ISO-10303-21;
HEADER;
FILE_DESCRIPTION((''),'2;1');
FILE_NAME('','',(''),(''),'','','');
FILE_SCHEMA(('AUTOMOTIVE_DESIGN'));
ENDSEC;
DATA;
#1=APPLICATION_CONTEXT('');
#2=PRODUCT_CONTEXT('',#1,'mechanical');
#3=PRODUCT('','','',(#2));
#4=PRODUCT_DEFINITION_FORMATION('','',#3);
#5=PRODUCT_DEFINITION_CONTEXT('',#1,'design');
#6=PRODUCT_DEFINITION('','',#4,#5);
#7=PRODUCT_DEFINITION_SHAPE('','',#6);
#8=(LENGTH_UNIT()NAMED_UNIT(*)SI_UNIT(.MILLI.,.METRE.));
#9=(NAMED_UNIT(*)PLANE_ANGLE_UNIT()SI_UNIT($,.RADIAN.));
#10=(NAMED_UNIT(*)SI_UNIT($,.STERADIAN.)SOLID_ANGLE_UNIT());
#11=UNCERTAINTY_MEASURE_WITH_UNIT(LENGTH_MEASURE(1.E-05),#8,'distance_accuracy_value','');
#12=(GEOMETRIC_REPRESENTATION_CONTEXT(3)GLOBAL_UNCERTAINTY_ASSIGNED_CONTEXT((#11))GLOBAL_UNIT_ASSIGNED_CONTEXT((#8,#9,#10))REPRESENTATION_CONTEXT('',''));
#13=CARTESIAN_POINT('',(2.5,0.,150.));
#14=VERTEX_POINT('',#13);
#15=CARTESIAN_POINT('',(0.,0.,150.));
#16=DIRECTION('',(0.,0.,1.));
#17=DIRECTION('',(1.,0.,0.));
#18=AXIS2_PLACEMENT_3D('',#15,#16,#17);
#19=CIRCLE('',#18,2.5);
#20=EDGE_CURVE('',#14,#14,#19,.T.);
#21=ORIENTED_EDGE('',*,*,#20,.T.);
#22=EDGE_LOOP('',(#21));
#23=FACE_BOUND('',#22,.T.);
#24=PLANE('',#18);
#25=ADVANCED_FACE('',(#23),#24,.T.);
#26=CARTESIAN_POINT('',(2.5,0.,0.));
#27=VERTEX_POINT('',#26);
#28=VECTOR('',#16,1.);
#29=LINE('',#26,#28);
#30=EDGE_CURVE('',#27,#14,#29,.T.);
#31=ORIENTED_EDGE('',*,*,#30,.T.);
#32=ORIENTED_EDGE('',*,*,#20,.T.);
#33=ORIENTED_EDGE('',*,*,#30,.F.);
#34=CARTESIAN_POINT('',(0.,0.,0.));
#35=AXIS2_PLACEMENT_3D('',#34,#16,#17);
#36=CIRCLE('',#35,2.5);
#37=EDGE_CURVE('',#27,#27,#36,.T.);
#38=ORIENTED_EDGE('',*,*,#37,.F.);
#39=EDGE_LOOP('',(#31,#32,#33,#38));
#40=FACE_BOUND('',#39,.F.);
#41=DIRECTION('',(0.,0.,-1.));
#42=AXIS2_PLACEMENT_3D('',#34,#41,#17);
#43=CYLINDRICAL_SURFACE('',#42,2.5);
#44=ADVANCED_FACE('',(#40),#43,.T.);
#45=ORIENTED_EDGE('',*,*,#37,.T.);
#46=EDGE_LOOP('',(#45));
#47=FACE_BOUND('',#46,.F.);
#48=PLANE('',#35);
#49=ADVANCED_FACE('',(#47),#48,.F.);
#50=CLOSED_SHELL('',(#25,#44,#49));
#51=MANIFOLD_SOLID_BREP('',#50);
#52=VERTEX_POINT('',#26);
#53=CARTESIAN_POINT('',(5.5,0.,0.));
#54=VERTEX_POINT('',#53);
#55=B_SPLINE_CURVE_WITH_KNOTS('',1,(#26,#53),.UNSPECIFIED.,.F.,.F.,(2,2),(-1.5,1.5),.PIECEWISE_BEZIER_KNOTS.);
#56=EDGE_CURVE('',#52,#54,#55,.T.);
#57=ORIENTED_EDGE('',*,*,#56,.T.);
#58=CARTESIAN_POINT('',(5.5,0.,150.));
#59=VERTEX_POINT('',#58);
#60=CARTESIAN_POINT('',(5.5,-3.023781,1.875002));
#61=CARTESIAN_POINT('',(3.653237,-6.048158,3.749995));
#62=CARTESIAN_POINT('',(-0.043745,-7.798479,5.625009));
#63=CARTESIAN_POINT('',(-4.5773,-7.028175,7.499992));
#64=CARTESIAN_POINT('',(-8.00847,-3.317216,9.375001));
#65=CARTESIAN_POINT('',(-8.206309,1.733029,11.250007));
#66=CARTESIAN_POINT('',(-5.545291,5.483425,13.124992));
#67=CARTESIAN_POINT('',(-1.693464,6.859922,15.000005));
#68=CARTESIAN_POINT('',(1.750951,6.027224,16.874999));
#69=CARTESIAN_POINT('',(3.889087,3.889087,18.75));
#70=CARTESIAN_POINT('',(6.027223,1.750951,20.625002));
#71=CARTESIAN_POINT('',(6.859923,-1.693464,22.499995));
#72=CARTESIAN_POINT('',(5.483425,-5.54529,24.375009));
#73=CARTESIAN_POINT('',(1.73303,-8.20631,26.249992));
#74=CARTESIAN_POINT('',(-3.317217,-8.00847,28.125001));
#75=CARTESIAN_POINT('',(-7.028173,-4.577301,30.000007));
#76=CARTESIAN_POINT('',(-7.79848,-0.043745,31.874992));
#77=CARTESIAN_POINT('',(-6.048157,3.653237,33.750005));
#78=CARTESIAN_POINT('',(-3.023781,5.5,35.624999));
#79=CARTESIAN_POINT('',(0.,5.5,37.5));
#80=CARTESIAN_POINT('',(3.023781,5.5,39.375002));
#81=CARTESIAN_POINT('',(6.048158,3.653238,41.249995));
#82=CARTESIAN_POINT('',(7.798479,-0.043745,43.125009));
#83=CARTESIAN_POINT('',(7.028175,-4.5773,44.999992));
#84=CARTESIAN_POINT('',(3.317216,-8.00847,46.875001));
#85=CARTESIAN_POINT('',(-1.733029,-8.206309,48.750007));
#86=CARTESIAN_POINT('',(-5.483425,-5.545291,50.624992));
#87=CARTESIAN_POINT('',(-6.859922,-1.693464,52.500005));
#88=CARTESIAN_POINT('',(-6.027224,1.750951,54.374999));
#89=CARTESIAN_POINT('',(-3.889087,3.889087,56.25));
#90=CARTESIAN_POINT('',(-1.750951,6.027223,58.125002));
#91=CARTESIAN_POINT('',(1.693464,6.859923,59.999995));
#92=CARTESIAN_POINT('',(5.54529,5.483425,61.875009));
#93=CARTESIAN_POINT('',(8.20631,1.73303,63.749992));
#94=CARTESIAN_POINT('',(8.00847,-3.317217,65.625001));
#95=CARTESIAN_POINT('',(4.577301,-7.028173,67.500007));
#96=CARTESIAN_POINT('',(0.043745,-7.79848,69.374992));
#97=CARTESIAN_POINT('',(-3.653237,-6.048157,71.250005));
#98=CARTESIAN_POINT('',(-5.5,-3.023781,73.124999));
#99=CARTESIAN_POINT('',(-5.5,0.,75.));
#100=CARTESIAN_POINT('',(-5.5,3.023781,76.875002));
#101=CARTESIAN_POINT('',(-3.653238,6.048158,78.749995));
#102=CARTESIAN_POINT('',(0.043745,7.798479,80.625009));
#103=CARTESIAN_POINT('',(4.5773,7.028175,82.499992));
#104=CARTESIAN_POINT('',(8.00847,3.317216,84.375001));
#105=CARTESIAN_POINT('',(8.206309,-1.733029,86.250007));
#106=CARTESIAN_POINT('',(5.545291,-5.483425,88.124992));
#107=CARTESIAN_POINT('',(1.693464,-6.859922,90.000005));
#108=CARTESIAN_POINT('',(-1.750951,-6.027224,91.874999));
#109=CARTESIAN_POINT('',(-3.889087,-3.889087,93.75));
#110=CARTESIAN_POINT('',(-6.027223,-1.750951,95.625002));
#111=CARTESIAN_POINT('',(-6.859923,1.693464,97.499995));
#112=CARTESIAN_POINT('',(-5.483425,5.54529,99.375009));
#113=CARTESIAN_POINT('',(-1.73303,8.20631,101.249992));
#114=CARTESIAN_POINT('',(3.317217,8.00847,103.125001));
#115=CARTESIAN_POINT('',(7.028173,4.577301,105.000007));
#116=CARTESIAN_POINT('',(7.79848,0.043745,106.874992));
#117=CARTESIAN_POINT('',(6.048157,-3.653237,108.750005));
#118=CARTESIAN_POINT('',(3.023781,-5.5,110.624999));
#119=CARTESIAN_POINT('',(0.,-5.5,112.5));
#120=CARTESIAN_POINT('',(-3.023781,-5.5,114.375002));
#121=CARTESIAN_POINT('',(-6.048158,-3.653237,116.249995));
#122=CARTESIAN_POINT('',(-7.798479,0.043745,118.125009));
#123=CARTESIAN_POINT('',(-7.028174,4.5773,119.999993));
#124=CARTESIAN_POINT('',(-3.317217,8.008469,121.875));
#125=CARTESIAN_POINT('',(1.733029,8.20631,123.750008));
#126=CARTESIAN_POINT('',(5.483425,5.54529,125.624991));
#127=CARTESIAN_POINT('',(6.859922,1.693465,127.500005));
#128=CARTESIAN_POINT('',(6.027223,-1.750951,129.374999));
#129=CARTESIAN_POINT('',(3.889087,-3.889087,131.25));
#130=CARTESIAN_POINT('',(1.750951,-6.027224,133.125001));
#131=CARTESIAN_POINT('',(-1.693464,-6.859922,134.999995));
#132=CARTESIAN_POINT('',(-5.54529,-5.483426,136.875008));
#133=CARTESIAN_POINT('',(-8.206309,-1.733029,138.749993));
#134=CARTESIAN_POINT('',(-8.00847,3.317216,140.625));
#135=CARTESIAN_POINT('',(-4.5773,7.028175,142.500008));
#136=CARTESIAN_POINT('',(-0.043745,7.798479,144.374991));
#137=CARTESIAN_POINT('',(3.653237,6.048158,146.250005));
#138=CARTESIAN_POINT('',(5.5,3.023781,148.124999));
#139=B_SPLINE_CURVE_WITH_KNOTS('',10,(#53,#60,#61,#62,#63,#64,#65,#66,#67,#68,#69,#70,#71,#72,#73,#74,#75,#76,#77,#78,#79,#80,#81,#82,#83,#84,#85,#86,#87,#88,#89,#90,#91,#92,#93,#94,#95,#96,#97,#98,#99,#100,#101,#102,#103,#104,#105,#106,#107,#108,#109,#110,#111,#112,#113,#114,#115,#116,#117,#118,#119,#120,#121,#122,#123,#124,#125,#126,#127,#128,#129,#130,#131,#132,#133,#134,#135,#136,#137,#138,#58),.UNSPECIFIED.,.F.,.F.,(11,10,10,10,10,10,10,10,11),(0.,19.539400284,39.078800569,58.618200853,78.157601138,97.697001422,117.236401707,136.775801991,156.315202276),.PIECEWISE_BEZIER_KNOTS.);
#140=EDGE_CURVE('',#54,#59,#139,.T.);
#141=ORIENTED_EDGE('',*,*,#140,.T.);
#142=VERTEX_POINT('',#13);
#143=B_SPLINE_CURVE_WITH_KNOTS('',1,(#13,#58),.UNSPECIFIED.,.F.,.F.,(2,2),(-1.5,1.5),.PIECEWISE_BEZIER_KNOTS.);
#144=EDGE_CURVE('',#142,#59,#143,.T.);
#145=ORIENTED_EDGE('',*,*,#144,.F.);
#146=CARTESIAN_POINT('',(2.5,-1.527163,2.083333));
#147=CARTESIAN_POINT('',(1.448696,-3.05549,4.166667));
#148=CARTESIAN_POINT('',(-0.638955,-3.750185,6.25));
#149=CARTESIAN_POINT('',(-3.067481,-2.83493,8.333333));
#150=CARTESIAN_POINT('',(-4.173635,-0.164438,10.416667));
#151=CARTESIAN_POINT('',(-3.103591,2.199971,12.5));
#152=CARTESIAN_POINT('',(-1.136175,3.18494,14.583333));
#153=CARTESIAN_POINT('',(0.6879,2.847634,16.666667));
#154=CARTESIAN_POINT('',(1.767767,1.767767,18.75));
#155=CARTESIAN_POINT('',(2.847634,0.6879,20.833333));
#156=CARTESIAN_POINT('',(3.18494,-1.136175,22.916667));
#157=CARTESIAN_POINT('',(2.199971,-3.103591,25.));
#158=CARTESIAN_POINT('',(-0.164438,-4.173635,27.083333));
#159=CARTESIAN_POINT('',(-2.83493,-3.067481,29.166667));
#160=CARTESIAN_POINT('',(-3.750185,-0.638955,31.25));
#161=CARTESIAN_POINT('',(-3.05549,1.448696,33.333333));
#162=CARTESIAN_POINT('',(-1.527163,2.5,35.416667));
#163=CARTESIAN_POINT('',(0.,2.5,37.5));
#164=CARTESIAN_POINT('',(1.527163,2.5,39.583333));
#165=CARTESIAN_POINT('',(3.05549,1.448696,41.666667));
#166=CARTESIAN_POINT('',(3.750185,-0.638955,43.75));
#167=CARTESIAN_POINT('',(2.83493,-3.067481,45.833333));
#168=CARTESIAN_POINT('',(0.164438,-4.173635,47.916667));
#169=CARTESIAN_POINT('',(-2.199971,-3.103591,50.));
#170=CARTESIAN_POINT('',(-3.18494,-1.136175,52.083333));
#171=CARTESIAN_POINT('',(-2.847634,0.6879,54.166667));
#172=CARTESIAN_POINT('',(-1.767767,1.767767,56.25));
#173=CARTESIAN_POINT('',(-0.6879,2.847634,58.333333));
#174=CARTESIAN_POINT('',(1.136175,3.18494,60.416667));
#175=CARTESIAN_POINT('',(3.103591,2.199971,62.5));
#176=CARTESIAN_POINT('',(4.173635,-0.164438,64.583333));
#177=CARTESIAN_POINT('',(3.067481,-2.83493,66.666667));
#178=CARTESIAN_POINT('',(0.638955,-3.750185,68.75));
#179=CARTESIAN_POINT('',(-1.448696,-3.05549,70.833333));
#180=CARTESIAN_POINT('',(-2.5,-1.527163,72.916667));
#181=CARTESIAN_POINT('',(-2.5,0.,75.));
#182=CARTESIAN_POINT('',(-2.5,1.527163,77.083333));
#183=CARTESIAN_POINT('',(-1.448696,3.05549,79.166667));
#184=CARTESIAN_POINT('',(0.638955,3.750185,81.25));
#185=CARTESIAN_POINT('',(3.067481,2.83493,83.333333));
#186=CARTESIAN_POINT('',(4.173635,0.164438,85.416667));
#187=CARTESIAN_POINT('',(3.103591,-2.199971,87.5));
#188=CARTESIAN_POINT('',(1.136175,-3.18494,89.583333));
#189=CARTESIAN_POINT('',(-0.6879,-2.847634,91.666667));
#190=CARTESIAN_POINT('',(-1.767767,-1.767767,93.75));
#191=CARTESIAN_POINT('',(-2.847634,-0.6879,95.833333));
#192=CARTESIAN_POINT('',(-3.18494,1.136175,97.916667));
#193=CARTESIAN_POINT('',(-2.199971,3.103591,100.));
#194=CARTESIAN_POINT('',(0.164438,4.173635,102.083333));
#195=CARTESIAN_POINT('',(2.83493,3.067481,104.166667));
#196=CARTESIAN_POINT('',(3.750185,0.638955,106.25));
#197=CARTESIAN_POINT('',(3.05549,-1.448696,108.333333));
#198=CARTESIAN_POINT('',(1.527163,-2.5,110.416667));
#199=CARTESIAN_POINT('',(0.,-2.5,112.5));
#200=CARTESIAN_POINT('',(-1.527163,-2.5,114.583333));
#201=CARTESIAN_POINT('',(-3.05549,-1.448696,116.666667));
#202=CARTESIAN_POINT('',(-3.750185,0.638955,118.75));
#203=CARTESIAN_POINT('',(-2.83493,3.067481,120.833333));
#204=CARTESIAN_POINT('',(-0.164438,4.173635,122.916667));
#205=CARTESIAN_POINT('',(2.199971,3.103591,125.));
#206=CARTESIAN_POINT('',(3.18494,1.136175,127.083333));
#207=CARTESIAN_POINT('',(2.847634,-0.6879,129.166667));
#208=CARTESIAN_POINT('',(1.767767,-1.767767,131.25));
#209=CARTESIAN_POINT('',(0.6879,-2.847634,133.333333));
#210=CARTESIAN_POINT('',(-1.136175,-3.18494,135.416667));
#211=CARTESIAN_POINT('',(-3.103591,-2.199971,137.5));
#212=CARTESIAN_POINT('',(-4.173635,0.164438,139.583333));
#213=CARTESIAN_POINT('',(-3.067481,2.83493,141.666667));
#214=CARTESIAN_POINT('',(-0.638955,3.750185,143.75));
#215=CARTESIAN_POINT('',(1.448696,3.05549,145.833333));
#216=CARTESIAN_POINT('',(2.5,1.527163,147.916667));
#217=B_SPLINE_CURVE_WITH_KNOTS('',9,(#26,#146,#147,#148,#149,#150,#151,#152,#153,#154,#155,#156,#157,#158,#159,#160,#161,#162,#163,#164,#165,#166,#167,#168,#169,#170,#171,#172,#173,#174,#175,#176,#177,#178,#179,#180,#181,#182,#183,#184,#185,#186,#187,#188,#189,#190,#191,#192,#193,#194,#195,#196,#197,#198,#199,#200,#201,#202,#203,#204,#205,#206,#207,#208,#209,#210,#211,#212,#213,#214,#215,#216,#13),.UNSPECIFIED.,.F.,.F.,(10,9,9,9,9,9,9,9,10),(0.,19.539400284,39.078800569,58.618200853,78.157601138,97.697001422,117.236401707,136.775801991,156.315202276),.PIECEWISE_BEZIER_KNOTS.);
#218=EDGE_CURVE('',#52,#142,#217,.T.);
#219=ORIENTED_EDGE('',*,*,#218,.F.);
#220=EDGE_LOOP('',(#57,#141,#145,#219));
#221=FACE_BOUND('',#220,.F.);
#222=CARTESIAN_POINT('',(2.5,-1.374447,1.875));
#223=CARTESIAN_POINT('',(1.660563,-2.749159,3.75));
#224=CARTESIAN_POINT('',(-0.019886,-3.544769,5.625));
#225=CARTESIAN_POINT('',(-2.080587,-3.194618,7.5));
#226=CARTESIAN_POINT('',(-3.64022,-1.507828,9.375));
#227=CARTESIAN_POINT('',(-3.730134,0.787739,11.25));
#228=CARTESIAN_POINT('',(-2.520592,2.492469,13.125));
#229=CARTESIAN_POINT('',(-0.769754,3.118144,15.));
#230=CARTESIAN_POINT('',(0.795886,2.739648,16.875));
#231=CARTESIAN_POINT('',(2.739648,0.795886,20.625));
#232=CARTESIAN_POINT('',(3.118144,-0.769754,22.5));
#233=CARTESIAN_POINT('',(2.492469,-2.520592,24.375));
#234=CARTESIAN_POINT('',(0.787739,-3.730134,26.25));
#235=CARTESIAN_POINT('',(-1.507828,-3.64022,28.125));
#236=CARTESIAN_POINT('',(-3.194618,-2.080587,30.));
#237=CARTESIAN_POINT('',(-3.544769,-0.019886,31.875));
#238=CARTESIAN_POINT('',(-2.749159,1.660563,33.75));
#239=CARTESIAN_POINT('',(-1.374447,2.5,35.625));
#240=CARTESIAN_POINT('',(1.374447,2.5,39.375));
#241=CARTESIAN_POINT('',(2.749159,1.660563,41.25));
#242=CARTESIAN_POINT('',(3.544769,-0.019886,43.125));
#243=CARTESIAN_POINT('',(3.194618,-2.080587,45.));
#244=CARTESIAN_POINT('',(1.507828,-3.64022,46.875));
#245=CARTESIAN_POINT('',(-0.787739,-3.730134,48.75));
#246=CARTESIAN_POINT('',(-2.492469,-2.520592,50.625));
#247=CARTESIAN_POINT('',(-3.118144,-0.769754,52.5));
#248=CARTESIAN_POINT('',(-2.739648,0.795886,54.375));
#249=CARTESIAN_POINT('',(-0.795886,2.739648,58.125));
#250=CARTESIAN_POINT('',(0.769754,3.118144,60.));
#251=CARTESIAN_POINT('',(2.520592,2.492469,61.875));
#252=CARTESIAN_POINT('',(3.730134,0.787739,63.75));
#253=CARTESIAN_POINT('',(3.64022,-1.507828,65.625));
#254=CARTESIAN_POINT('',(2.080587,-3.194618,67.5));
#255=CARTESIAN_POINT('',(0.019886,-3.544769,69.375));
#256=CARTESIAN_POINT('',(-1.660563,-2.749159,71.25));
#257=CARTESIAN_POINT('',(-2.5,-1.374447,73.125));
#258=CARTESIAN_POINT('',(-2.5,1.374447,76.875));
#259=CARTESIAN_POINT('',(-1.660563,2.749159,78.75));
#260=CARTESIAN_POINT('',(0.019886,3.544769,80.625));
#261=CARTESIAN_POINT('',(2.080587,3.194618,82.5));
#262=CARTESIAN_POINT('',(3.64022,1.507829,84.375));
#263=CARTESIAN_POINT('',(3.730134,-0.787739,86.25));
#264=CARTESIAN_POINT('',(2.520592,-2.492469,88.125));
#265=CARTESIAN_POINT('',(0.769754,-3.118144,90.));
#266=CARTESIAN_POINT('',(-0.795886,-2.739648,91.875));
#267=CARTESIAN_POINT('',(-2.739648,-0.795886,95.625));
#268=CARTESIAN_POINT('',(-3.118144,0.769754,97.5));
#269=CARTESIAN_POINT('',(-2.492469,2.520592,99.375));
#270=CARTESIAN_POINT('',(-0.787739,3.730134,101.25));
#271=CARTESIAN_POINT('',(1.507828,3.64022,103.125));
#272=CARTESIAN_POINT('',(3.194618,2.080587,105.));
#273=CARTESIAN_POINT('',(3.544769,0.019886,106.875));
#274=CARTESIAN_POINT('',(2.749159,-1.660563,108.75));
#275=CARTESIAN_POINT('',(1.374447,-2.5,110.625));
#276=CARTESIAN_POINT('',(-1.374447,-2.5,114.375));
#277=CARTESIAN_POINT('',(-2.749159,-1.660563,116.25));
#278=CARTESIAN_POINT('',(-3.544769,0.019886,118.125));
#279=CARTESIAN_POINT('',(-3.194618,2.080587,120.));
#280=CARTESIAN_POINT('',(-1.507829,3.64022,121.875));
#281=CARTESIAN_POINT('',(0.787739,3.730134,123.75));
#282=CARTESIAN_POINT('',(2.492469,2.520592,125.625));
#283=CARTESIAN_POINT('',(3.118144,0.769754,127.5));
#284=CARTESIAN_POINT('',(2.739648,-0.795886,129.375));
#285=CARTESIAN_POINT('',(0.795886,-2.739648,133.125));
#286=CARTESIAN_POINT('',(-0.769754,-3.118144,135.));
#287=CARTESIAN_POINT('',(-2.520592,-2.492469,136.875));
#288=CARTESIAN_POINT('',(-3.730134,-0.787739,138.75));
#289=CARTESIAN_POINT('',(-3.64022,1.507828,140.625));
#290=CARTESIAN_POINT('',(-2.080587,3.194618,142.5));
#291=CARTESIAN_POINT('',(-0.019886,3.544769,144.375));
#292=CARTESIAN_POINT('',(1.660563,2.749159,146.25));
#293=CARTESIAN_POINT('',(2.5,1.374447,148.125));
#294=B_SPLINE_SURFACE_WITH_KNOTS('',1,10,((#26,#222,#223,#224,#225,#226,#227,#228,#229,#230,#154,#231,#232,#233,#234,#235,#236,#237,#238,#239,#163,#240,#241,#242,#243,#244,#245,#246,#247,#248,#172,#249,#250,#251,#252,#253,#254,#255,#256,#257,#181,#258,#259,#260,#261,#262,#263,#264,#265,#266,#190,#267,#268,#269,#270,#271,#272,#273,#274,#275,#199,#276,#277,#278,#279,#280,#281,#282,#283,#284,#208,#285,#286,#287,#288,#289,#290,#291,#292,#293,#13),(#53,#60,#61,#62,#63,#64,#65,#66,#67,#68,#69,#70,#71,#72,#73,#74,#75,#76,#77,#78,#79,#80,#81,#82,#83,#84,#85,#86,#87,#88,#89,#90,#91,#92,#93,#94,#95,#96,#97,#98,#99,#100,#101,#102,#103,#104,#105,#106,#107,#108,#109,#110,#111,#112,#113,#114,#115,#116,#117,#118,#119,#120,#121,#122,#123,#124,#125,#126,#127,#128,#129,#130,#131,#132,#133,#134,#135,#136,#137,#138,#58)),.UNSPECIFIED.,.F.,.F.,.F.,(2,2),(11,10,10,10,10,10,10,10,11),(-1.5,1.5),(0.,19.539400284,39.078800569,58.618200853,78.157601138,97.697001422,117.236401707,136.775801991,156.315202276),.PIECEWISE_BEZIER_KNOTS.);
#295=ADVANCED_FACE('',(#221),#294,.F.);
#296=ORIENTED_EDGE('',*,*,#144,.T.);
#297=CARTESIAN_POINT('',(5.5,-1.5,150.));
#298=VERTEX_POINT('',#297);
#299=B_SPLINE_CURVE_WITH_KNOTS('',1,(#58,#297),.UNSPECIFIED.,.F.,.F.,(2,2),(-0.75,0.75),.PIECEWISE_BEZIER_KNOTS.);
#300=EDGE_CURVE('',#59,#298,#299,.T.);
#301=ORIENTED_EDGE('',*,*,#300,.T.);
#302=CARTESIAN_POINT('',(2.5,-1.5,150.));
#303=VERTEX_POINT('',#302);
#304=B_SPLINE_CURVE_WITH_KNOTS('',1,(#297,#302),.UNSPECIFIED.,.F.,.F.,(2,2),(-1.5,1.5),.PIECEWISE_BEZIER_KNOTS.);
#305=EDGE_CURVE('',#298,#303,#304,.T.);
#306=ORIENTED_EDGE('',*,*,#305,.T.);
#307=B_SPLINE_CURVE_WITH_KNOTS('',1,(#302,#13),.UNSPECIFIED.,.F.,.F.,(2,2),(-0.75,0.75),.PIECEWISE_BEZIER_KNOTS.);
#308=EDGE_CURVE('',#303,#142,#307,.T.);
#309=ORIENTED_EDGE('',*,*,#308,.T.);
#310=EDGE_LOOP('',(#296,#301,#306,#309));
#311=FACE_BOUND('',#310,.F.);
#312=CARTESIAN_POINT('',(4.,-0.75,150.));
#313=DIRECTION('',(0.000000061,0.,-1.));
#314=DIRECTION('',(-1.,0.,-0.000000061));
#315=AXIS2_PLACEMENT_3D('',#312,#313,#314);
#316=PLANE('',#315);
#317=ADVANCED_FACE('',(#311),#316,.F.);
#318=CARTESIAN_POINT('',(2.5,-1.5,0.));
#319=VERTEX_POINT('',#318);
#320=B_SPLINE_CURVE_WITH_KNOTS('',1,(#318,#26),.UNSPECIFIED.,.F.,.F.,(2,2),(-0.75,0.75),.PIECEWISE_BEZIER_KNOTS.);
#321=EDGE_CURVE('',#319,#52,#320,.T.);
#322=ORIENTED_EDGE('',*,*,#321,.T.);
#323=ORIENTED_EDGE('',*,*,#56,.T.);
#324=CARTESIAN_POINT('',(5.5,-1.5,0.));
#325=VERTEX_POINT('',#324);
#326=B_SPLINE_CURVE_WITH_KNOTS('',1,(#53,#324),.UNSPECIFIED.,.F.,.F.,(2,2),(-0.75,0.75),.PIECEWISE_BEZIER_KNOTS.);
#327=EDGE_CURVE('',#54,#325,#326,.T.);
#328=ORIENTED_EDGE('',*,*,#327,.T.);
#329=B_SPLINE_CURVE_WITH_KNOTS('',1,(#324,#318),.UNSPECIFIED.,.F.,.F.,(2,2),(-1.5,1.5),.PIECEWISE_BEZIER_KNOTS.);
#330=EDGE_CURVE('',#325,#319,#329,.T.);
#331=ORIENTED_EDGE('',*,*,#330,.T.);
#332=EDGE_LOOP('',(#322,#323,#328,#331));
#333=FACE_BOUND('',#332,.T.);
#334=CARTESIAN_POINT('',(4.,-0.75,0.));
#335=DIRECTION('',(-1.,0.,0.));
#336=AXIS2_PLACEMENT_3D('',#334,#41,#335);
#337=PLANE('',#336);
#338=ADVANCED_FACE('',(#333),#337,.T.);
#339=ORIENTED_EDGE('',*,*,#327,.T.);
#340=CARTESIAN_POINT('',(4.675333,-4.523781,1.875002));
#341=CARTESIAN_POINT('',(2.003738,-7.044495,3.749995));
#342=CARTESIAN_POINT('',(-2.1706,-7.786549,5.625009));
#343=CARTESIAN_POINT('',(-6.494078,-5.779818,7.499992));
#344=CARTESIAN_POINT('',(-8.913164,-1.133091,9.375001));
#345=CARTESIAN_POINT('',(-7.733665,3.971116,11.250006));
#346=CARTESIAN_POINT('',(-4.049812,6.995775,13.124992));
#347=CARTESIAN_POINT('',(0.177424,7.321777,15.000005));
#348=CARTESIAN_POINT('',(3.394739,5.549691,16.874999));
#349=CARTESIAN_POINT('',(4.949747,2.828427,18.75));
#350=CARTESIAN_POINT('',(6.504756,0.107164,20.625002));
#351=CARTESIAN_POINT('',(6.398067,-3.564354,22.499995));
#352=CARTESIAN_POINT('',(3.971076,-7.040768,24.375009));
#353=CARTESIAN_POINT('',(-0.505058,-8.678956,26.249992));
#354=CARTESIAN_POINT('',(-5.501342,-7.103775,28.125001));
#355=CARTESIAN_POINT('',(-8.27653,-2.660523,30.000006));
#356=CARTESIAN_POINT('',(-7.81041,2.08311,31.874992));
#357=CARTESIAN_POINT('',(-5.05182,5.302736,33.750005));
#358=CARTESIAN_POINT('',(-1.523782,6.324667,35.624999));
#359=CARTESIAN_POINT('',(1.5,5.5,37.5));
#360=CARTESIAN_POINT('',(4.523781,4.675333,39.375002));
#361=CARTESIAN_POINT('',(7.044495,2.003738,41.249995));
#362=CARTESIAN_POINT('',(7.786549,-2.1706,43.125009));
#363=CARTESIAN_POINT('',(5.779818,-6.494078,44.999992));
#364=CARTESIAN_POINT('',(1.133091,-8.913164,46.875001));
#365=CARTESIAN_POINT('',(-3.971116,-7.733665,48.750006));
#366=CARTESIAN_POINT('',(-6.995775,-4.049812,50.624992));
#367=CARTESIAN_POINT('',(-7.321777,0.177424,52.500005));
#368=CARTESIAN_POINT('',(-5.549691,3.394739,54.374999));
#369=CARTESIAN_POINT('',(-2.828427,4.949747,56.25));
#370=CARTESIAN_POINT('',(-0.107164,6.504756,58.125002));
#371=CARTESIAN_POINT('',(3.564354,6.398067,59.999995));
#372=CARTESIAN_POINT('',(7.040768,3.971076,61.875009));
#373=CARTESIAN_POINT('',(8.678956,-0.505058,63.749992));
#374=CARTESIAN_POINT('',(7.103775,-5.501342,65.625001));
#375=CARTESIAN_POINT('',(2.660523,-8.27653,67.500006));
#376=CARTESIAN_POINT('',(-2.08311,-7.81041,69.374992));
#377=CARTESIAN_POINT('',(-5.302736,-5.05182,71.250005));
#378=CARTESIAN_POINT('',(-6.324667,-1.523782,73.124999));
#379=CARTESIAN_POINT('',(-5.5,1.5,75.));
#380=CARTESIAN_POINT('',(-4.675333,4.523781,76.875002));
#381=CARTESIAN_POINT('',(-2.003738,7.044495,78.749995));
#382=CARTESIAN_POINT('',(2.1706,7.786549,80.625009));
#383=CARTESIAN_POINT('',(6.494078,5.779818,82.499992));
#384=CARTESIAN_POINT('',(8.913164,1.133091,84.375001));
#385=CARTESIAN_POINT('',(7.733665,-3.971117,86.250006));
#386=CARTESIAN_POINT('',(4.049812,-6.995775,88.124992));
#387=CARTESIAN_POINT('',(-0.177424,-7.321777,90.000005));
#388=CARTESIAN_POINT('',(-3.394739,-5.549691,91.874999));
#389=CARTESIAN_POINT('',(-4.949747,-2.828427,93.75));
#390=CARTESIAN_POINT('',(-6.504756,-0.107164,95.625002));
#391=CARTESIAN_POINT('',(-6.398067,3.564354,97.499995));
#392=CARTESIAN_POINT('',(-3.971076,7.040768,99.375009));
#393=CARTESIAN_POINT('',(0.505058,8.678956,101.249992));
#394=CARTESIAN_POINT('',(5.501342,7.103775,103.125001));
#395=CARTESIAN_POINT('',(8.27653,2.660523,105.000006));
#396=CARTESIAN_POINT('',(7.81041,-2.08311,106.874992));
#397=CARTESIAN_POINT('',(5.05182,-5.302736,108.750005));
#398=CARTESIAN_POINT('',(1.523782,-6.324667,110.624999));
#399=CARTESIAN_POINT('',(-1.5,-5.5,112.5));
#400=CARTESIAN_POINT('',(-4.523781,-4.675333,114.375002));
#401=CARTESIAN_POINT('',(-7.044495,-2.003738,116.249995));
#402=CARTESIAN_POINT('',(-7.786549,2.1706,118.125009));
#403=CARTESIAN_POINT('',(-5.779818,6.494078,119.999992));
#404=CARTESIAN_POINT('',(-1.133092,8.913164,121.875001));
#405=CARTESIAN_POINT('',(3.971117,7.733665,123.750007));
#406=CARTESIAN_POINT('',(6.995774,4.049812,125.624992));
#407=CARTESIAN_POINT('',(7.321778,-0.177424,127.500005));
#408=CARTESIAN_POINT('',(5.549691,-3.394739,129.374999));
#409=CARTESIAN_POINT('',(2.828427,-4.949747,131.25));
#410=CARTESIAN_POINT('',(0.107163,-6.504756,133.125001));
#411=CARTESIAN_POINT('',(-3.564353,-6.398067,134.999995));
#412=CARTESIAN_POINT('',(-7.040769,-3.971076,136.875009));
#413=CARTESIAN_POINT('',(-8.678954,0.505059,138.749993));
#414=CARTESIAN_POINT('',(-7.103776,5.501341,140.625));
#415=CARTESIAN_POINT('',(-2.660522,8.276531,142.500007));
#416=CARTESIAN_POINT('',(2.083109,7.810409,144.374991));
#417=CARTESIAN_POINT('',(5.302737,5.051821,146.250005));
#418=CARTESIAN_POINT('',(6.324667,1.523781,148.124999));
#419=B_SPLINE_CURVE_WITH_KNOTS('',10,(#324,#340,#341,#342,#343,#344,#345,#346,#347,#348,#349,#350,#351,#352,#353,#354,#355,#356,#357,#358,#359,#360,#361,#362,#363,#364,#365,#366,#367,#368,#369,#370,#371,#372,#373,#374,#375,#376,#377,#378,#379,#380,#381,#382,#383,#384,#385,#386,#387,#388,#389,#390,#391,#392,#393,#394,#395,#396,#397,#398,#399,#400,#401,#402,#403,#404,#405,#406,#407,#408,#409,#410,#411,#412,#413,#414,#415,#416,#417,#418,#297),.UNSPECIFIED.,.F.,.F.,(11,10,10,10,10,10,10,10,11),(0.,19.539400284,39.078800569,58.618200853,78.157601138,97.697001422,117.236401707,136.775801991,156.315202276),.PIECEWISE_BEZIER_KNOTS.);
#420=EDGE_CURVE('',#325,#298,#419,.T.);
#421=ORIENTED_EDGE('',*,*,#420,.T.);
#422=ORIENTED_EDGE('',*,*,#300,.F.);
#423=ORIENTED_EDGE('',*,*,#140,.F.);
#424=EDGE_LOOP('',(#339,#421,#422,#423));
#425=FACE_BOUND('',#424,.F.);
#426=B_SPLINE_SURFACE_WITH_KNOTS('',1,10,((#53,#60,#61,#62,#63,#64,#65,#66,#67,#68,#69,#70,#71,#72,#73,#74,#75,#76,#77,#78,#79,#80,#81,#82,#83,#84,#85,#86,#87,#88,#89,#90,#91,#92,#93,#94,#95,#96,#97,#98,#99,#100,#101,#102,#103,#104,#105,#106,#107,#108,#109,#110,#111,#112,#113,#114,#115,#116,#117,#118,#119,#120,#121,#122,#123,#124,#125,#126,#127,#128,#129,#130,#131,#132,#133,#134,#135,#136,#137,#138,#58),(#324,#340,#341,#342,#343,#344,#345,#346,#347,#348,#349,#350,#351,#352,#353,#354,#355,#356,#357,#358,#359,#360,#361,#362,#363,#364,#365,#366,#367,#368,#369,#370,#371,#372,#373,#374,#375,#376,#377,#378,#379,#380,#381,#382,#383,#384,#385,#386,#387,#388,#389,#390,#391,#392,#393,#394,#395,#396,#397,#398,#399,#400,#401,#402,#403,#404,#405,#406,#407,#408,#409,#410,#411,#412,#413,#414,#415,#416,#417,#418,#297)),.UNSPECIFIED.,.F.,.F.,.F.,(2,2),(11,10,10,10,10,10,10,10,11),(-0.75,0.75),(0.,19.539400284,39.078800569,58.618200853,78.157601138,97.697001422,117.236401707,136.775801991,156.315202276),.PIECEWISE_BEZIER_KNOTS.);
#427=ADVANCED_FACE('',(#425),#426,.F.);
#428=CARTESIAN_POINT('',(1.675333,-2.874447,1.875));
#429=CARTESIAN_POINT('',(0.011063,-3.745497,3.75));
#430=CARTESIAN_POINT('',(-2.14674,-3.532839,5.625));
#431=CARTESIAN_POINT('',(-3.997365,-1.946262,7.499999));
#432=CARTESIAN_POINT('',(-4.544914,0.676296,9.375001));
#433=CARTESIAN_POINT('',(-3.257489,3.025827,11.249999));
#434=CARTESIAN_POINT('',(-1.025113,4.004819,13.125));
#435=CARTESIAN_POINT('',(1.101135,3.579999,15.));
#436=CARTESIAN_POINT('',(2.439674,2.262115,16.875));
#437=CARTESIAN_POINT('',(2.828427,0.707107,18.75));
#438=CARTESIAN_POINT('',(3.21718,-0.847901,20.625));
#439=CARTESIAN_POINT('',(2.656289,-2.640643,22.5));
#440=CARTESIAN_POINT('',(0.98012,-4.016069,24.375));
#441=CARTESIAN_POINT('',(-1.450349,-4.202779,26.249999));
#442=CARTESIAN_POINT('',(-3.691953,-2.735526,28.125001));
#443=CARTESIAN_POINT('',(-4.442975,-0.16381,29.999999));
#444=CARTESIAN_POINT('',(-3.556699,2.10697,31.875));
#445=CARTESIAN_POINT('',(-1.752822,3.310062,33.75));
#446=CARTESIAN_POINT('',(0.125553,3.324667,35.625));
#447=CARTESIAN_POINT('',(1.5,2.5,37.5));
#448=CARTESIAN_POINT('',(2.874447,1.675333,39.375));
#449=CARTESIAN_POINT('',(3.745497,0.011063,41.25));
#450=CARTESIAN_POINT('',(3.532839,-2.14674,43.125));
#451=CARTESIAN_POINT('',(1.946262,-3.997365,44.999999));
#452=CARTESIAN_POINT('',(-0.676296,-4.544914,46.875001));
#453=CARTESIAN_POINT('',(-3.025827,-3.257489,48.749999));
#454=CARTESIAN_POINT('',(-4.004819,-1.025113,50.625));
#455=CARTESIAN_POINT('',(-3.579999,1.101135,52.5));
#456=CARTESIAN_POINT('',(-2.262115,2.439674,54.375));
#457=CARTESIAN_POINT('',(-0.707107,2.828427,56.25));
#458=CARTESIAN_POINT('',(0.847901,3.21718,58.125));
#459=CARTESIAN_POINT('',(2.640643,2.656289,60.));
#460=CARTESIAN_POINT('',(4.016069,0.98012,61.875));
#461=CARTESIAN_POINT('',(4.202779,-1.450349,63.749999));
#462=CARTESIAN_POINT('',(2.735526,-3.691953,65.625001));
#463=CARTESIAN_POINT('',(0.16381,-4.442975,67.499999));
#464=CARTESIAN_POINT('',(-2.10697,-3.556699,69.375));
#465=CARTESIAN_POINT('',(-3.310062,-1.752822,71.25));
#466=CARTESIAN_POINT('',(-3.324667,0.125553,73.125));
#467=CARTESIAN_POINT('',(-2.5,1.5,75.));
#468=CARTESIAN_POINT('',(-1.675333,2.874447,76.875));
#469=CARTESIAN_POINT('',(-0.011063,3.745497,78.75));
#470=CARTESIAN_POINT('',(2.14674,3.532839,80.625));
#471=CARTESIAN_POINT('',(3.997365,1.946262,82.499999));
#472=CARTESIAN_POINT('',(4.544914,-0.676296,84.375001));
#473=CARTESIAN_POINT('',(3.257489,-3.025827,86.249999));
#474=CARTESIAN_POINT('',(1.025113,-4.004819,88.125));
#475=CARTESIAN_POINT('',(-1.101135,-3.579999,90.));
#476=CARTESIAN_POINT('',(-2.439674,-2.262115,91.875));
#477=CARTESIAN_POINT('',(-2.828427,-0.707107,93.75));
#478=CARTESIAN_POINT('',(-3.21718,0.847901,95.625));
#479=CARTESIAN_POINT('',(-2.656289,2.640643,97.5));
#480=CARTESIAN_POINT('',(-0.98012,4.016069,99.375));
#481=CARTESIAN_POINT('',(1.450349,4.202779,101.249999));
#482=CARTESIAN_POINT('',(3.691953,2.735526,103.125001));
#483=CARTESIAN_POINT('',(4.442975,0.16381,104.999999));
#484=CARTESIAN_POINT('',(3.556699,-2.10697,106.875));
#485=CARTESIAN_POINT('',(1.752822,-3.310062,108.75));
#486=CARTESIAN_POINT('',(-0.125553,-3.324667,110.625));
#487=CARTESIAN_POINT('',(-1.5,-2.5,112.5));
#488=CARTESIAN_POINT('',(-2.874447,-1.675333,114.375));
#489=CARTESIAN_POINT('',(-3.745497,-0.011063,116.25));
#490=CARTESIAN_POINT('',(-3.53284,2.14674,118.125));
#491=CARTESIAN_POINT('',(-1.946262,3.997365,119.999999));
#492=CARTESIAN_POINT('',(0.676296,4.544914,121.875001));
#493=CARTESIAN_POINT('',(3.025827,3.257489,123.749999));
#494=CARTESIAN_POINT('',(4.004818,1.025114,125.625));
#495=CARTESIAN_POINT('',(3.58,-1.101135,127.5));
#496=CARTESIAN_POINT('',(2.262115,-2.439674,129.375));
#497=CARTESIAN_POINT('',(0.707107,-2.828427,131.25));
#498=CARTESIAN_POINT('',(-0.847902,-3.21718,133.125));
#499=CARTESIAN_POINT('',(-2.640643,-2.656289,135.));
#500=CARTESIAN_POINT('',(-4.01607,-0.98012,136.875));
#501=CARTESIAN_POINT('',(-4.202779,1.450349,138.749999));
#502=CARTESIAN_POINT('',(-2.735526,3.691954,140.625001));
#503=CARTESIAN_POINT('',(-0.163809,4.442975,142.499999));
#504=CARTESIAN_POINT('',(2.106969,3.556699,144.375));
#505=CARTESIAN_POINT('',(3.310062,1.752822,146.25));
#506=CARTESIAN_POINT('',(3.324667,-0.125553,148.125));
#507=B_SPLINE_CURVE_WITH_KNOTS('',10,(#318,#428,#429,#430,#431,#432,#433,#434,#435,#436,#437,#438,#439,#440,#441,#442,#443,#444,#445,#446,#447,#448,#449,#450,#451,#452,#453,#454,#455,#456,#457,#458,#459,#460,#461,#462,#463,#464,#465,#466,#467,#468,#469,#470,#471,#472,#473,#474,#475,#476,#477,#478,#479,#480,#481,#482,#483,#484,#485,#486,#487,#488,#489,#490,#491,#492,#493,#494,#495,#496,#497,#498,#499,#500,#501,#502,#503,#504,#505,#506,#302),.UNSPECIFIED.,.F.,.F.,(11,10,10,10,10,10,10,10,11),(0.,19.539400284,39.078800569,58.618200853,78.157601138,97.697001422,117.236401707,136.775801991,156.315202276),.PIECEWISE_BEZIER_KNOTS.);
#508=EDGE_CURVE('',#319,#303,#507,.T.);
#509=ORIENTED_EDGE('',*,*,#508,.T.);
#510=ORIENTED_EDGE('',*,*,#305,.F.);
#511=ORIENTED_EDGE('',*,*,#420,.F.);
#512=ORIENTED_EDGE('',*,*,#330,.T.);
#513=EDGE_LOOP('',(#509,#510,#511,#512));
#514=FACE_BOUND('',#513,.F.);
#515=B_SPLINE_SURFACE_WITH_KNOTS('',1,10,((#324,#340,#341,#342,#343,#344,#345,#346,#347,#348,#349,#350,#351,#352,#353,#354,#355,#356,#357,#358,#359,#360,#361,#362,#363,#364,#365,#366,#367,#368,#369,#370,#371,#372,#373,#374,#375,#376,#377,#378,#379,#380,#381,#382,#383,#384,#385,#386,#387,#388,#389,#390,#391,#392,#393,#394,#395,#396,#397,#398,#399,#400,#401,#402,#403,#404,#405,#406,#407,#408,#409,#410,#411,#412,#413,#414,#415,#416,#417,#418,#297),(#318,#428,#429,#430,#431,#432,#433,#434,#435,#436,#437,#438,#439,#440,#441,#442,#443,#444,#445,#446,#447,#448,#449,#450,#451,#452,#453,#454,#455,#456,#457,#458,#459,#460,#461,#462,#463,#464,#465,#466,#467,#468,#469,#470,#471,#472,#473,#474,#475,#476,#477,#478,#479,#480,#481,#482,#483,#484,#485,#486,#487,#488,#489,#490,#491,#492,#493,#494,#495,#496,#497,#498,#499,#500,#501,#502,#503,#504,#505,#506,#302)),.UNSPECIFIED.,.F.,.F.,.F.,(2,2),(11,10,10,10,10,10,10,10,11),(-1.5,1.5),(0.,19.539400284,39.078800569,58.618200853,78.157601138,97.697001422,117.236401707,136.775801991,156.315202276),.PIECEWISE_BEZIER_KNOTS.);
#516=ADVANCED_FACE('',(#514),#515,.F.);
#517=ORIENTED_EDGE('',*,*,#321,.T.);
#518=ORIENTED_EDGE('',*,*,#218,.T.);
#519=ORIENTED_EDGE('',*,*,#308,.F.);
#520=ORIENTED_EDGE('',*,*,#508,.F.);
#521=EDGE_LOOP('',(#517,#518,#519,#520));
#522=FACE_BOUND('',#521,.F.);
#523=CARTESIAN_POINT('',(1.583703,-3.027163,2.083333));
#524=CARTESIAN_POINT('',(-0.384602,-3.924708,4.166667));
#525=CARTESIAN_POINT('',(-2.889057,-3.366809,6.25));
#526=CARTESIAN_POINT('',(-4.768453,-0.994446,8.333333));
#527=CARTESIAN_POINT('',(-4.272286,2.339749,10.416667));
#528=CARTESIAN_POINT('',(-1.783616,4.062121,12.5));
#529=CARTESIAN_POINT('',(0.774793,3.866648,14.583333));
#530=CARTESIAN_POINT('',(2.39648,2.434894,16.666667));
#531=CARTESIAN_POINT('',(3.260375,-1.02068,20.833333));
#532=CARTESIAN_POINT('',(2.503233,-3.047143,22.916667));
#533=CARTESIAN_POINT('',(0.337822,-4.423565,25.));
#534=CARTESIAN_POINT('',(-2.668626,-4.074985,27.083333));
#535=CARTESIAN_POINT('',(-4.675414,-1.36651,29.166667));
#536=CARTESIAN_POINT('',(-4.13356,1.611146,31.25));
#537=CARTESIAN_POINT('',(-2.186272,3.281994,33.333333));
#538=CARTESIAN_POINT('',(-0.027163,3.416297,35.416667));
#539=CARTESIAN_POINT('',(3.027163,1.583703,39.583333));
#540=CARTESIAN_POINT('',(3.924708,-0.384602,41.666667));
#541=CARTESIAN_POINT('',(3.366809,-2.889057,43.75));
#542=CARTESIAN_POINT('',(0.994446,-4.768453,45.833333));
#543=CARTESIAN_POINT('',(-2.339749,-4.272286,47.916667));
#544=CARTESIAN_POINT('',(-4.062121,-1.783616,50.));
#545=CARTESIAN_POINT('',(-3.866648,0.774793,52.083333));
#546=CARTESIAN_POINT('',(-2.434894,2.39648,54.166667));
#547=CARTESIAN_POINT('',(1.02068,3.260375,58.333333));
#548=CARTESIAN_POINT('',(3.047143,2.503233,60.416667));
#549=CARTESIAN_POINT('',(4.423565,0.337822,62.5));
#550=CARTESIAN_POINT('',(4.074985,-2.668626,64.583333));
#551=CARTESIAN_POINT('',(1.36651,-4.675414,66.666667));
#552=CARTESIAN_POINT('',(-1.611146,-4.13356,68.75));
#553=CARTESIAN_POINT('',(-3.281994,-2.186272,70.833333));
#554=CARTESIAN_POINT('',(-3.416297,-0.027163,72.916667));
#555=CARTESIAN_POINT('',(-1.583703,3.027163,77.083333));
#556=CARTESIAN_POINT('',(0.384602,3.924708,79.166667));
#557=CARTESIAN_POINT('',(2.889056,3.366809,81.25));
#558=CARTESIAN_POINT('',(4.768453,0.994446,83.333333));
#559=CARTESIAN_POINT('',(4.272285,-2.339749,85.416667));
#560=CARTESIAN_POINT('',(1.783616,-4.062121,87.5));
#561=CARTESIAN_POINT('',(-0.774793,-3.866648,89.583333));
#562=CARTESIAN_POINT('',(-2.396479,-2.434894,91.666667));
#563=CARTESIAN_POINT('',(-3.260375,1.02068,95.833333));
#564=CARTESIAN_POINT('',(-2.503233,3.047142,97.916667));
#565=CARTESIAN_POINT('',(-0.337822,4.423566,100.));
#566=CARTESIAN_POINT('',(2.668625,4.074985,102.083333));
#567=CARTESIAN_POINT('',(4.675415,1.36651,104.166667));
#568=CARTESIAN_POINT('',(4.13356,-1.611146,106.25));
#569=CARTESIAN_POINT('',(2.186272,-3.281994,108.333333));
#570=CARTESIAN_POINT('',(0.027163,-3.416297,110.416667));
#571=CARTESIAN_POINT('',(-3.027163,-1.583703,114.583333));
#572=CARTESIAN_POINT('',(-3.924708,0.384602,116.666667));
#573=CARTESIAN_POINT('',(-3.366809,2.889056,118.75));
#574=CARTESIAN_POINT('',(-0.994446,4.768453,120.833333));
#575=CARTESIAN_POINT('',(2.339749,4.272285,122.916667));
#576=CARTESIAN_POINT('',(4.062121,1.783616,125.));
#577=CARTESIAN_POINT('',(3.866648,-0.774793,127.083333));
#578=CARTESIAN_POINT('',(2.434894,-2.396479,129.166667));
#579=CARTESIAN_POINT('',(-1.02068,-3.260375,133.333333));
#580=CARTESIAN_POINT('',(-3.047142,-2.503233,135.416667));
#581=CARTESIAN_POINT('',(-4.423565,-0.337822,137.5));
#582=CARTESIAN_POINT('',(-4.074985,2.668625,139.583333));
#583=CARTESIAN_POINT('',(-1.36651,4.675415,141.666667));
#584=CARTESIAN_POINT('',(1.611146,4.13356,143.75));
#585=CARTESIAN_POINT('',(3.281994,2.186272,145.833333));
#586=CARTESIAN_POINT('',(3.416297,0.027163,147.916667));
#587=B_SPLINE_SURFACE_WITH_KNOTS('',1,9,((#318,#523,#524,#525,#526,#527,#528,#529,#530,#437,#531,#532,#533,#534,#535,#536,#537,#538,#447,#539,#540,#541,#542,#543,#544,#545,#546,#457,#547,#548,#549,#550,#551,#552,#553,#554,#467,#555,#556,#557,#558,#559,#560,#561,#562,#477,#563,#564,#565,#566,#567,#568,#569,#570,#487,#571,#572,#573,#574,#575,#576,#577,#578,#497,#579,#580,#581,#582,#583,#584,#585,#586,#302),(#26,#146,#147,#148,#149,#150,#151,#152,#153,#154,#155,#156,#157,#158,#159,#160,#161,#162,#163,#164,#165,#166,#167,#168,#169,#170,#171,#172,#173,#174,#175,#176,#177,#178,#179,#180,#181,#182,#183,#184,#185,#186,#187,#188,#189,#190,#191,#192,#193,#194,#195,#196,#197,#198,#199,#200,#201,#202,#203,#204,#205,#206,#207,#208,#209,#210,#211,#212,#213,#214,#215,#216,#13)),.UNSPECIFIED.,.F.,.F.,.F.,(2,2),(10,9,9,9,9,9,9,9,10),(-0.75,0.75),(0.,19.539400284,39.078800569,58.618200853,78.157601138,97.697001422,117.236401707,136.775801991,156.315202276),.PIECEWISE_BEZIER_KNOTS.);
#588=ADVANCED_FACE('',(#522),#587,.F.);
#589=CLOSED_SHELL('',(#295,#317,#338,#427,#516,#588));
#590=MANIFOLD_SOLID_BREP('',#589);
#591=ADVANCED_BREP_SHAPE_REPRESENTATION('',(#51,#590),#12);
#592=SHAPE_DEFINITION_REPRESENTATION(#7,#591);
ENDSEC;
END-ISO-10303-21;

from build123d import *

# Parameters (mm, degrees)
SKETCH1_R           = 2.5
BOSS_EXTRUDE1_DEPTH = 150
SWEEP5_PITCH        = 21.428571429
SWEEP5_HEIGHT       = 150
SWEEP5_RADIUS       = 2.5
SKETCH12_W          = 3
SKETCH12_H          = 1.5


with BuildPart() as part:
    # Sketch1 → Boss-Extrude1 (new body)
    with BuildSketch(Plane.XY):
        Circle(SKETCH1_R)
    extrude(amount=BOSS_EXTRUDE1_DEPTH)


with BuildPart() as body_2:
    # Sweep5: sweep along a helix
    with BuildLine() as sweep5_path:
        Helix(SWEEP5_PITCH, SWEEP5_HEIGHT, SWEEP5_RADIUS, center=(0, 0, 0), direction=(0, 0, 1), lefthand=True)
    # Sketch12 → Sweep5 (sweep)
    with BuildSketch(Plane(origin=(0, 0, 0), x_dir=(-1, 0, 0), z_dir=(0, 0, -1))):
        with Locations((-4, -0.75)):
            Rectangle(SKETCH12_W, SKETCH12_H)
    sweep(path=sweep5_path.line, is_frenet=True)


solid = Compound([part.part, body_2.part])
